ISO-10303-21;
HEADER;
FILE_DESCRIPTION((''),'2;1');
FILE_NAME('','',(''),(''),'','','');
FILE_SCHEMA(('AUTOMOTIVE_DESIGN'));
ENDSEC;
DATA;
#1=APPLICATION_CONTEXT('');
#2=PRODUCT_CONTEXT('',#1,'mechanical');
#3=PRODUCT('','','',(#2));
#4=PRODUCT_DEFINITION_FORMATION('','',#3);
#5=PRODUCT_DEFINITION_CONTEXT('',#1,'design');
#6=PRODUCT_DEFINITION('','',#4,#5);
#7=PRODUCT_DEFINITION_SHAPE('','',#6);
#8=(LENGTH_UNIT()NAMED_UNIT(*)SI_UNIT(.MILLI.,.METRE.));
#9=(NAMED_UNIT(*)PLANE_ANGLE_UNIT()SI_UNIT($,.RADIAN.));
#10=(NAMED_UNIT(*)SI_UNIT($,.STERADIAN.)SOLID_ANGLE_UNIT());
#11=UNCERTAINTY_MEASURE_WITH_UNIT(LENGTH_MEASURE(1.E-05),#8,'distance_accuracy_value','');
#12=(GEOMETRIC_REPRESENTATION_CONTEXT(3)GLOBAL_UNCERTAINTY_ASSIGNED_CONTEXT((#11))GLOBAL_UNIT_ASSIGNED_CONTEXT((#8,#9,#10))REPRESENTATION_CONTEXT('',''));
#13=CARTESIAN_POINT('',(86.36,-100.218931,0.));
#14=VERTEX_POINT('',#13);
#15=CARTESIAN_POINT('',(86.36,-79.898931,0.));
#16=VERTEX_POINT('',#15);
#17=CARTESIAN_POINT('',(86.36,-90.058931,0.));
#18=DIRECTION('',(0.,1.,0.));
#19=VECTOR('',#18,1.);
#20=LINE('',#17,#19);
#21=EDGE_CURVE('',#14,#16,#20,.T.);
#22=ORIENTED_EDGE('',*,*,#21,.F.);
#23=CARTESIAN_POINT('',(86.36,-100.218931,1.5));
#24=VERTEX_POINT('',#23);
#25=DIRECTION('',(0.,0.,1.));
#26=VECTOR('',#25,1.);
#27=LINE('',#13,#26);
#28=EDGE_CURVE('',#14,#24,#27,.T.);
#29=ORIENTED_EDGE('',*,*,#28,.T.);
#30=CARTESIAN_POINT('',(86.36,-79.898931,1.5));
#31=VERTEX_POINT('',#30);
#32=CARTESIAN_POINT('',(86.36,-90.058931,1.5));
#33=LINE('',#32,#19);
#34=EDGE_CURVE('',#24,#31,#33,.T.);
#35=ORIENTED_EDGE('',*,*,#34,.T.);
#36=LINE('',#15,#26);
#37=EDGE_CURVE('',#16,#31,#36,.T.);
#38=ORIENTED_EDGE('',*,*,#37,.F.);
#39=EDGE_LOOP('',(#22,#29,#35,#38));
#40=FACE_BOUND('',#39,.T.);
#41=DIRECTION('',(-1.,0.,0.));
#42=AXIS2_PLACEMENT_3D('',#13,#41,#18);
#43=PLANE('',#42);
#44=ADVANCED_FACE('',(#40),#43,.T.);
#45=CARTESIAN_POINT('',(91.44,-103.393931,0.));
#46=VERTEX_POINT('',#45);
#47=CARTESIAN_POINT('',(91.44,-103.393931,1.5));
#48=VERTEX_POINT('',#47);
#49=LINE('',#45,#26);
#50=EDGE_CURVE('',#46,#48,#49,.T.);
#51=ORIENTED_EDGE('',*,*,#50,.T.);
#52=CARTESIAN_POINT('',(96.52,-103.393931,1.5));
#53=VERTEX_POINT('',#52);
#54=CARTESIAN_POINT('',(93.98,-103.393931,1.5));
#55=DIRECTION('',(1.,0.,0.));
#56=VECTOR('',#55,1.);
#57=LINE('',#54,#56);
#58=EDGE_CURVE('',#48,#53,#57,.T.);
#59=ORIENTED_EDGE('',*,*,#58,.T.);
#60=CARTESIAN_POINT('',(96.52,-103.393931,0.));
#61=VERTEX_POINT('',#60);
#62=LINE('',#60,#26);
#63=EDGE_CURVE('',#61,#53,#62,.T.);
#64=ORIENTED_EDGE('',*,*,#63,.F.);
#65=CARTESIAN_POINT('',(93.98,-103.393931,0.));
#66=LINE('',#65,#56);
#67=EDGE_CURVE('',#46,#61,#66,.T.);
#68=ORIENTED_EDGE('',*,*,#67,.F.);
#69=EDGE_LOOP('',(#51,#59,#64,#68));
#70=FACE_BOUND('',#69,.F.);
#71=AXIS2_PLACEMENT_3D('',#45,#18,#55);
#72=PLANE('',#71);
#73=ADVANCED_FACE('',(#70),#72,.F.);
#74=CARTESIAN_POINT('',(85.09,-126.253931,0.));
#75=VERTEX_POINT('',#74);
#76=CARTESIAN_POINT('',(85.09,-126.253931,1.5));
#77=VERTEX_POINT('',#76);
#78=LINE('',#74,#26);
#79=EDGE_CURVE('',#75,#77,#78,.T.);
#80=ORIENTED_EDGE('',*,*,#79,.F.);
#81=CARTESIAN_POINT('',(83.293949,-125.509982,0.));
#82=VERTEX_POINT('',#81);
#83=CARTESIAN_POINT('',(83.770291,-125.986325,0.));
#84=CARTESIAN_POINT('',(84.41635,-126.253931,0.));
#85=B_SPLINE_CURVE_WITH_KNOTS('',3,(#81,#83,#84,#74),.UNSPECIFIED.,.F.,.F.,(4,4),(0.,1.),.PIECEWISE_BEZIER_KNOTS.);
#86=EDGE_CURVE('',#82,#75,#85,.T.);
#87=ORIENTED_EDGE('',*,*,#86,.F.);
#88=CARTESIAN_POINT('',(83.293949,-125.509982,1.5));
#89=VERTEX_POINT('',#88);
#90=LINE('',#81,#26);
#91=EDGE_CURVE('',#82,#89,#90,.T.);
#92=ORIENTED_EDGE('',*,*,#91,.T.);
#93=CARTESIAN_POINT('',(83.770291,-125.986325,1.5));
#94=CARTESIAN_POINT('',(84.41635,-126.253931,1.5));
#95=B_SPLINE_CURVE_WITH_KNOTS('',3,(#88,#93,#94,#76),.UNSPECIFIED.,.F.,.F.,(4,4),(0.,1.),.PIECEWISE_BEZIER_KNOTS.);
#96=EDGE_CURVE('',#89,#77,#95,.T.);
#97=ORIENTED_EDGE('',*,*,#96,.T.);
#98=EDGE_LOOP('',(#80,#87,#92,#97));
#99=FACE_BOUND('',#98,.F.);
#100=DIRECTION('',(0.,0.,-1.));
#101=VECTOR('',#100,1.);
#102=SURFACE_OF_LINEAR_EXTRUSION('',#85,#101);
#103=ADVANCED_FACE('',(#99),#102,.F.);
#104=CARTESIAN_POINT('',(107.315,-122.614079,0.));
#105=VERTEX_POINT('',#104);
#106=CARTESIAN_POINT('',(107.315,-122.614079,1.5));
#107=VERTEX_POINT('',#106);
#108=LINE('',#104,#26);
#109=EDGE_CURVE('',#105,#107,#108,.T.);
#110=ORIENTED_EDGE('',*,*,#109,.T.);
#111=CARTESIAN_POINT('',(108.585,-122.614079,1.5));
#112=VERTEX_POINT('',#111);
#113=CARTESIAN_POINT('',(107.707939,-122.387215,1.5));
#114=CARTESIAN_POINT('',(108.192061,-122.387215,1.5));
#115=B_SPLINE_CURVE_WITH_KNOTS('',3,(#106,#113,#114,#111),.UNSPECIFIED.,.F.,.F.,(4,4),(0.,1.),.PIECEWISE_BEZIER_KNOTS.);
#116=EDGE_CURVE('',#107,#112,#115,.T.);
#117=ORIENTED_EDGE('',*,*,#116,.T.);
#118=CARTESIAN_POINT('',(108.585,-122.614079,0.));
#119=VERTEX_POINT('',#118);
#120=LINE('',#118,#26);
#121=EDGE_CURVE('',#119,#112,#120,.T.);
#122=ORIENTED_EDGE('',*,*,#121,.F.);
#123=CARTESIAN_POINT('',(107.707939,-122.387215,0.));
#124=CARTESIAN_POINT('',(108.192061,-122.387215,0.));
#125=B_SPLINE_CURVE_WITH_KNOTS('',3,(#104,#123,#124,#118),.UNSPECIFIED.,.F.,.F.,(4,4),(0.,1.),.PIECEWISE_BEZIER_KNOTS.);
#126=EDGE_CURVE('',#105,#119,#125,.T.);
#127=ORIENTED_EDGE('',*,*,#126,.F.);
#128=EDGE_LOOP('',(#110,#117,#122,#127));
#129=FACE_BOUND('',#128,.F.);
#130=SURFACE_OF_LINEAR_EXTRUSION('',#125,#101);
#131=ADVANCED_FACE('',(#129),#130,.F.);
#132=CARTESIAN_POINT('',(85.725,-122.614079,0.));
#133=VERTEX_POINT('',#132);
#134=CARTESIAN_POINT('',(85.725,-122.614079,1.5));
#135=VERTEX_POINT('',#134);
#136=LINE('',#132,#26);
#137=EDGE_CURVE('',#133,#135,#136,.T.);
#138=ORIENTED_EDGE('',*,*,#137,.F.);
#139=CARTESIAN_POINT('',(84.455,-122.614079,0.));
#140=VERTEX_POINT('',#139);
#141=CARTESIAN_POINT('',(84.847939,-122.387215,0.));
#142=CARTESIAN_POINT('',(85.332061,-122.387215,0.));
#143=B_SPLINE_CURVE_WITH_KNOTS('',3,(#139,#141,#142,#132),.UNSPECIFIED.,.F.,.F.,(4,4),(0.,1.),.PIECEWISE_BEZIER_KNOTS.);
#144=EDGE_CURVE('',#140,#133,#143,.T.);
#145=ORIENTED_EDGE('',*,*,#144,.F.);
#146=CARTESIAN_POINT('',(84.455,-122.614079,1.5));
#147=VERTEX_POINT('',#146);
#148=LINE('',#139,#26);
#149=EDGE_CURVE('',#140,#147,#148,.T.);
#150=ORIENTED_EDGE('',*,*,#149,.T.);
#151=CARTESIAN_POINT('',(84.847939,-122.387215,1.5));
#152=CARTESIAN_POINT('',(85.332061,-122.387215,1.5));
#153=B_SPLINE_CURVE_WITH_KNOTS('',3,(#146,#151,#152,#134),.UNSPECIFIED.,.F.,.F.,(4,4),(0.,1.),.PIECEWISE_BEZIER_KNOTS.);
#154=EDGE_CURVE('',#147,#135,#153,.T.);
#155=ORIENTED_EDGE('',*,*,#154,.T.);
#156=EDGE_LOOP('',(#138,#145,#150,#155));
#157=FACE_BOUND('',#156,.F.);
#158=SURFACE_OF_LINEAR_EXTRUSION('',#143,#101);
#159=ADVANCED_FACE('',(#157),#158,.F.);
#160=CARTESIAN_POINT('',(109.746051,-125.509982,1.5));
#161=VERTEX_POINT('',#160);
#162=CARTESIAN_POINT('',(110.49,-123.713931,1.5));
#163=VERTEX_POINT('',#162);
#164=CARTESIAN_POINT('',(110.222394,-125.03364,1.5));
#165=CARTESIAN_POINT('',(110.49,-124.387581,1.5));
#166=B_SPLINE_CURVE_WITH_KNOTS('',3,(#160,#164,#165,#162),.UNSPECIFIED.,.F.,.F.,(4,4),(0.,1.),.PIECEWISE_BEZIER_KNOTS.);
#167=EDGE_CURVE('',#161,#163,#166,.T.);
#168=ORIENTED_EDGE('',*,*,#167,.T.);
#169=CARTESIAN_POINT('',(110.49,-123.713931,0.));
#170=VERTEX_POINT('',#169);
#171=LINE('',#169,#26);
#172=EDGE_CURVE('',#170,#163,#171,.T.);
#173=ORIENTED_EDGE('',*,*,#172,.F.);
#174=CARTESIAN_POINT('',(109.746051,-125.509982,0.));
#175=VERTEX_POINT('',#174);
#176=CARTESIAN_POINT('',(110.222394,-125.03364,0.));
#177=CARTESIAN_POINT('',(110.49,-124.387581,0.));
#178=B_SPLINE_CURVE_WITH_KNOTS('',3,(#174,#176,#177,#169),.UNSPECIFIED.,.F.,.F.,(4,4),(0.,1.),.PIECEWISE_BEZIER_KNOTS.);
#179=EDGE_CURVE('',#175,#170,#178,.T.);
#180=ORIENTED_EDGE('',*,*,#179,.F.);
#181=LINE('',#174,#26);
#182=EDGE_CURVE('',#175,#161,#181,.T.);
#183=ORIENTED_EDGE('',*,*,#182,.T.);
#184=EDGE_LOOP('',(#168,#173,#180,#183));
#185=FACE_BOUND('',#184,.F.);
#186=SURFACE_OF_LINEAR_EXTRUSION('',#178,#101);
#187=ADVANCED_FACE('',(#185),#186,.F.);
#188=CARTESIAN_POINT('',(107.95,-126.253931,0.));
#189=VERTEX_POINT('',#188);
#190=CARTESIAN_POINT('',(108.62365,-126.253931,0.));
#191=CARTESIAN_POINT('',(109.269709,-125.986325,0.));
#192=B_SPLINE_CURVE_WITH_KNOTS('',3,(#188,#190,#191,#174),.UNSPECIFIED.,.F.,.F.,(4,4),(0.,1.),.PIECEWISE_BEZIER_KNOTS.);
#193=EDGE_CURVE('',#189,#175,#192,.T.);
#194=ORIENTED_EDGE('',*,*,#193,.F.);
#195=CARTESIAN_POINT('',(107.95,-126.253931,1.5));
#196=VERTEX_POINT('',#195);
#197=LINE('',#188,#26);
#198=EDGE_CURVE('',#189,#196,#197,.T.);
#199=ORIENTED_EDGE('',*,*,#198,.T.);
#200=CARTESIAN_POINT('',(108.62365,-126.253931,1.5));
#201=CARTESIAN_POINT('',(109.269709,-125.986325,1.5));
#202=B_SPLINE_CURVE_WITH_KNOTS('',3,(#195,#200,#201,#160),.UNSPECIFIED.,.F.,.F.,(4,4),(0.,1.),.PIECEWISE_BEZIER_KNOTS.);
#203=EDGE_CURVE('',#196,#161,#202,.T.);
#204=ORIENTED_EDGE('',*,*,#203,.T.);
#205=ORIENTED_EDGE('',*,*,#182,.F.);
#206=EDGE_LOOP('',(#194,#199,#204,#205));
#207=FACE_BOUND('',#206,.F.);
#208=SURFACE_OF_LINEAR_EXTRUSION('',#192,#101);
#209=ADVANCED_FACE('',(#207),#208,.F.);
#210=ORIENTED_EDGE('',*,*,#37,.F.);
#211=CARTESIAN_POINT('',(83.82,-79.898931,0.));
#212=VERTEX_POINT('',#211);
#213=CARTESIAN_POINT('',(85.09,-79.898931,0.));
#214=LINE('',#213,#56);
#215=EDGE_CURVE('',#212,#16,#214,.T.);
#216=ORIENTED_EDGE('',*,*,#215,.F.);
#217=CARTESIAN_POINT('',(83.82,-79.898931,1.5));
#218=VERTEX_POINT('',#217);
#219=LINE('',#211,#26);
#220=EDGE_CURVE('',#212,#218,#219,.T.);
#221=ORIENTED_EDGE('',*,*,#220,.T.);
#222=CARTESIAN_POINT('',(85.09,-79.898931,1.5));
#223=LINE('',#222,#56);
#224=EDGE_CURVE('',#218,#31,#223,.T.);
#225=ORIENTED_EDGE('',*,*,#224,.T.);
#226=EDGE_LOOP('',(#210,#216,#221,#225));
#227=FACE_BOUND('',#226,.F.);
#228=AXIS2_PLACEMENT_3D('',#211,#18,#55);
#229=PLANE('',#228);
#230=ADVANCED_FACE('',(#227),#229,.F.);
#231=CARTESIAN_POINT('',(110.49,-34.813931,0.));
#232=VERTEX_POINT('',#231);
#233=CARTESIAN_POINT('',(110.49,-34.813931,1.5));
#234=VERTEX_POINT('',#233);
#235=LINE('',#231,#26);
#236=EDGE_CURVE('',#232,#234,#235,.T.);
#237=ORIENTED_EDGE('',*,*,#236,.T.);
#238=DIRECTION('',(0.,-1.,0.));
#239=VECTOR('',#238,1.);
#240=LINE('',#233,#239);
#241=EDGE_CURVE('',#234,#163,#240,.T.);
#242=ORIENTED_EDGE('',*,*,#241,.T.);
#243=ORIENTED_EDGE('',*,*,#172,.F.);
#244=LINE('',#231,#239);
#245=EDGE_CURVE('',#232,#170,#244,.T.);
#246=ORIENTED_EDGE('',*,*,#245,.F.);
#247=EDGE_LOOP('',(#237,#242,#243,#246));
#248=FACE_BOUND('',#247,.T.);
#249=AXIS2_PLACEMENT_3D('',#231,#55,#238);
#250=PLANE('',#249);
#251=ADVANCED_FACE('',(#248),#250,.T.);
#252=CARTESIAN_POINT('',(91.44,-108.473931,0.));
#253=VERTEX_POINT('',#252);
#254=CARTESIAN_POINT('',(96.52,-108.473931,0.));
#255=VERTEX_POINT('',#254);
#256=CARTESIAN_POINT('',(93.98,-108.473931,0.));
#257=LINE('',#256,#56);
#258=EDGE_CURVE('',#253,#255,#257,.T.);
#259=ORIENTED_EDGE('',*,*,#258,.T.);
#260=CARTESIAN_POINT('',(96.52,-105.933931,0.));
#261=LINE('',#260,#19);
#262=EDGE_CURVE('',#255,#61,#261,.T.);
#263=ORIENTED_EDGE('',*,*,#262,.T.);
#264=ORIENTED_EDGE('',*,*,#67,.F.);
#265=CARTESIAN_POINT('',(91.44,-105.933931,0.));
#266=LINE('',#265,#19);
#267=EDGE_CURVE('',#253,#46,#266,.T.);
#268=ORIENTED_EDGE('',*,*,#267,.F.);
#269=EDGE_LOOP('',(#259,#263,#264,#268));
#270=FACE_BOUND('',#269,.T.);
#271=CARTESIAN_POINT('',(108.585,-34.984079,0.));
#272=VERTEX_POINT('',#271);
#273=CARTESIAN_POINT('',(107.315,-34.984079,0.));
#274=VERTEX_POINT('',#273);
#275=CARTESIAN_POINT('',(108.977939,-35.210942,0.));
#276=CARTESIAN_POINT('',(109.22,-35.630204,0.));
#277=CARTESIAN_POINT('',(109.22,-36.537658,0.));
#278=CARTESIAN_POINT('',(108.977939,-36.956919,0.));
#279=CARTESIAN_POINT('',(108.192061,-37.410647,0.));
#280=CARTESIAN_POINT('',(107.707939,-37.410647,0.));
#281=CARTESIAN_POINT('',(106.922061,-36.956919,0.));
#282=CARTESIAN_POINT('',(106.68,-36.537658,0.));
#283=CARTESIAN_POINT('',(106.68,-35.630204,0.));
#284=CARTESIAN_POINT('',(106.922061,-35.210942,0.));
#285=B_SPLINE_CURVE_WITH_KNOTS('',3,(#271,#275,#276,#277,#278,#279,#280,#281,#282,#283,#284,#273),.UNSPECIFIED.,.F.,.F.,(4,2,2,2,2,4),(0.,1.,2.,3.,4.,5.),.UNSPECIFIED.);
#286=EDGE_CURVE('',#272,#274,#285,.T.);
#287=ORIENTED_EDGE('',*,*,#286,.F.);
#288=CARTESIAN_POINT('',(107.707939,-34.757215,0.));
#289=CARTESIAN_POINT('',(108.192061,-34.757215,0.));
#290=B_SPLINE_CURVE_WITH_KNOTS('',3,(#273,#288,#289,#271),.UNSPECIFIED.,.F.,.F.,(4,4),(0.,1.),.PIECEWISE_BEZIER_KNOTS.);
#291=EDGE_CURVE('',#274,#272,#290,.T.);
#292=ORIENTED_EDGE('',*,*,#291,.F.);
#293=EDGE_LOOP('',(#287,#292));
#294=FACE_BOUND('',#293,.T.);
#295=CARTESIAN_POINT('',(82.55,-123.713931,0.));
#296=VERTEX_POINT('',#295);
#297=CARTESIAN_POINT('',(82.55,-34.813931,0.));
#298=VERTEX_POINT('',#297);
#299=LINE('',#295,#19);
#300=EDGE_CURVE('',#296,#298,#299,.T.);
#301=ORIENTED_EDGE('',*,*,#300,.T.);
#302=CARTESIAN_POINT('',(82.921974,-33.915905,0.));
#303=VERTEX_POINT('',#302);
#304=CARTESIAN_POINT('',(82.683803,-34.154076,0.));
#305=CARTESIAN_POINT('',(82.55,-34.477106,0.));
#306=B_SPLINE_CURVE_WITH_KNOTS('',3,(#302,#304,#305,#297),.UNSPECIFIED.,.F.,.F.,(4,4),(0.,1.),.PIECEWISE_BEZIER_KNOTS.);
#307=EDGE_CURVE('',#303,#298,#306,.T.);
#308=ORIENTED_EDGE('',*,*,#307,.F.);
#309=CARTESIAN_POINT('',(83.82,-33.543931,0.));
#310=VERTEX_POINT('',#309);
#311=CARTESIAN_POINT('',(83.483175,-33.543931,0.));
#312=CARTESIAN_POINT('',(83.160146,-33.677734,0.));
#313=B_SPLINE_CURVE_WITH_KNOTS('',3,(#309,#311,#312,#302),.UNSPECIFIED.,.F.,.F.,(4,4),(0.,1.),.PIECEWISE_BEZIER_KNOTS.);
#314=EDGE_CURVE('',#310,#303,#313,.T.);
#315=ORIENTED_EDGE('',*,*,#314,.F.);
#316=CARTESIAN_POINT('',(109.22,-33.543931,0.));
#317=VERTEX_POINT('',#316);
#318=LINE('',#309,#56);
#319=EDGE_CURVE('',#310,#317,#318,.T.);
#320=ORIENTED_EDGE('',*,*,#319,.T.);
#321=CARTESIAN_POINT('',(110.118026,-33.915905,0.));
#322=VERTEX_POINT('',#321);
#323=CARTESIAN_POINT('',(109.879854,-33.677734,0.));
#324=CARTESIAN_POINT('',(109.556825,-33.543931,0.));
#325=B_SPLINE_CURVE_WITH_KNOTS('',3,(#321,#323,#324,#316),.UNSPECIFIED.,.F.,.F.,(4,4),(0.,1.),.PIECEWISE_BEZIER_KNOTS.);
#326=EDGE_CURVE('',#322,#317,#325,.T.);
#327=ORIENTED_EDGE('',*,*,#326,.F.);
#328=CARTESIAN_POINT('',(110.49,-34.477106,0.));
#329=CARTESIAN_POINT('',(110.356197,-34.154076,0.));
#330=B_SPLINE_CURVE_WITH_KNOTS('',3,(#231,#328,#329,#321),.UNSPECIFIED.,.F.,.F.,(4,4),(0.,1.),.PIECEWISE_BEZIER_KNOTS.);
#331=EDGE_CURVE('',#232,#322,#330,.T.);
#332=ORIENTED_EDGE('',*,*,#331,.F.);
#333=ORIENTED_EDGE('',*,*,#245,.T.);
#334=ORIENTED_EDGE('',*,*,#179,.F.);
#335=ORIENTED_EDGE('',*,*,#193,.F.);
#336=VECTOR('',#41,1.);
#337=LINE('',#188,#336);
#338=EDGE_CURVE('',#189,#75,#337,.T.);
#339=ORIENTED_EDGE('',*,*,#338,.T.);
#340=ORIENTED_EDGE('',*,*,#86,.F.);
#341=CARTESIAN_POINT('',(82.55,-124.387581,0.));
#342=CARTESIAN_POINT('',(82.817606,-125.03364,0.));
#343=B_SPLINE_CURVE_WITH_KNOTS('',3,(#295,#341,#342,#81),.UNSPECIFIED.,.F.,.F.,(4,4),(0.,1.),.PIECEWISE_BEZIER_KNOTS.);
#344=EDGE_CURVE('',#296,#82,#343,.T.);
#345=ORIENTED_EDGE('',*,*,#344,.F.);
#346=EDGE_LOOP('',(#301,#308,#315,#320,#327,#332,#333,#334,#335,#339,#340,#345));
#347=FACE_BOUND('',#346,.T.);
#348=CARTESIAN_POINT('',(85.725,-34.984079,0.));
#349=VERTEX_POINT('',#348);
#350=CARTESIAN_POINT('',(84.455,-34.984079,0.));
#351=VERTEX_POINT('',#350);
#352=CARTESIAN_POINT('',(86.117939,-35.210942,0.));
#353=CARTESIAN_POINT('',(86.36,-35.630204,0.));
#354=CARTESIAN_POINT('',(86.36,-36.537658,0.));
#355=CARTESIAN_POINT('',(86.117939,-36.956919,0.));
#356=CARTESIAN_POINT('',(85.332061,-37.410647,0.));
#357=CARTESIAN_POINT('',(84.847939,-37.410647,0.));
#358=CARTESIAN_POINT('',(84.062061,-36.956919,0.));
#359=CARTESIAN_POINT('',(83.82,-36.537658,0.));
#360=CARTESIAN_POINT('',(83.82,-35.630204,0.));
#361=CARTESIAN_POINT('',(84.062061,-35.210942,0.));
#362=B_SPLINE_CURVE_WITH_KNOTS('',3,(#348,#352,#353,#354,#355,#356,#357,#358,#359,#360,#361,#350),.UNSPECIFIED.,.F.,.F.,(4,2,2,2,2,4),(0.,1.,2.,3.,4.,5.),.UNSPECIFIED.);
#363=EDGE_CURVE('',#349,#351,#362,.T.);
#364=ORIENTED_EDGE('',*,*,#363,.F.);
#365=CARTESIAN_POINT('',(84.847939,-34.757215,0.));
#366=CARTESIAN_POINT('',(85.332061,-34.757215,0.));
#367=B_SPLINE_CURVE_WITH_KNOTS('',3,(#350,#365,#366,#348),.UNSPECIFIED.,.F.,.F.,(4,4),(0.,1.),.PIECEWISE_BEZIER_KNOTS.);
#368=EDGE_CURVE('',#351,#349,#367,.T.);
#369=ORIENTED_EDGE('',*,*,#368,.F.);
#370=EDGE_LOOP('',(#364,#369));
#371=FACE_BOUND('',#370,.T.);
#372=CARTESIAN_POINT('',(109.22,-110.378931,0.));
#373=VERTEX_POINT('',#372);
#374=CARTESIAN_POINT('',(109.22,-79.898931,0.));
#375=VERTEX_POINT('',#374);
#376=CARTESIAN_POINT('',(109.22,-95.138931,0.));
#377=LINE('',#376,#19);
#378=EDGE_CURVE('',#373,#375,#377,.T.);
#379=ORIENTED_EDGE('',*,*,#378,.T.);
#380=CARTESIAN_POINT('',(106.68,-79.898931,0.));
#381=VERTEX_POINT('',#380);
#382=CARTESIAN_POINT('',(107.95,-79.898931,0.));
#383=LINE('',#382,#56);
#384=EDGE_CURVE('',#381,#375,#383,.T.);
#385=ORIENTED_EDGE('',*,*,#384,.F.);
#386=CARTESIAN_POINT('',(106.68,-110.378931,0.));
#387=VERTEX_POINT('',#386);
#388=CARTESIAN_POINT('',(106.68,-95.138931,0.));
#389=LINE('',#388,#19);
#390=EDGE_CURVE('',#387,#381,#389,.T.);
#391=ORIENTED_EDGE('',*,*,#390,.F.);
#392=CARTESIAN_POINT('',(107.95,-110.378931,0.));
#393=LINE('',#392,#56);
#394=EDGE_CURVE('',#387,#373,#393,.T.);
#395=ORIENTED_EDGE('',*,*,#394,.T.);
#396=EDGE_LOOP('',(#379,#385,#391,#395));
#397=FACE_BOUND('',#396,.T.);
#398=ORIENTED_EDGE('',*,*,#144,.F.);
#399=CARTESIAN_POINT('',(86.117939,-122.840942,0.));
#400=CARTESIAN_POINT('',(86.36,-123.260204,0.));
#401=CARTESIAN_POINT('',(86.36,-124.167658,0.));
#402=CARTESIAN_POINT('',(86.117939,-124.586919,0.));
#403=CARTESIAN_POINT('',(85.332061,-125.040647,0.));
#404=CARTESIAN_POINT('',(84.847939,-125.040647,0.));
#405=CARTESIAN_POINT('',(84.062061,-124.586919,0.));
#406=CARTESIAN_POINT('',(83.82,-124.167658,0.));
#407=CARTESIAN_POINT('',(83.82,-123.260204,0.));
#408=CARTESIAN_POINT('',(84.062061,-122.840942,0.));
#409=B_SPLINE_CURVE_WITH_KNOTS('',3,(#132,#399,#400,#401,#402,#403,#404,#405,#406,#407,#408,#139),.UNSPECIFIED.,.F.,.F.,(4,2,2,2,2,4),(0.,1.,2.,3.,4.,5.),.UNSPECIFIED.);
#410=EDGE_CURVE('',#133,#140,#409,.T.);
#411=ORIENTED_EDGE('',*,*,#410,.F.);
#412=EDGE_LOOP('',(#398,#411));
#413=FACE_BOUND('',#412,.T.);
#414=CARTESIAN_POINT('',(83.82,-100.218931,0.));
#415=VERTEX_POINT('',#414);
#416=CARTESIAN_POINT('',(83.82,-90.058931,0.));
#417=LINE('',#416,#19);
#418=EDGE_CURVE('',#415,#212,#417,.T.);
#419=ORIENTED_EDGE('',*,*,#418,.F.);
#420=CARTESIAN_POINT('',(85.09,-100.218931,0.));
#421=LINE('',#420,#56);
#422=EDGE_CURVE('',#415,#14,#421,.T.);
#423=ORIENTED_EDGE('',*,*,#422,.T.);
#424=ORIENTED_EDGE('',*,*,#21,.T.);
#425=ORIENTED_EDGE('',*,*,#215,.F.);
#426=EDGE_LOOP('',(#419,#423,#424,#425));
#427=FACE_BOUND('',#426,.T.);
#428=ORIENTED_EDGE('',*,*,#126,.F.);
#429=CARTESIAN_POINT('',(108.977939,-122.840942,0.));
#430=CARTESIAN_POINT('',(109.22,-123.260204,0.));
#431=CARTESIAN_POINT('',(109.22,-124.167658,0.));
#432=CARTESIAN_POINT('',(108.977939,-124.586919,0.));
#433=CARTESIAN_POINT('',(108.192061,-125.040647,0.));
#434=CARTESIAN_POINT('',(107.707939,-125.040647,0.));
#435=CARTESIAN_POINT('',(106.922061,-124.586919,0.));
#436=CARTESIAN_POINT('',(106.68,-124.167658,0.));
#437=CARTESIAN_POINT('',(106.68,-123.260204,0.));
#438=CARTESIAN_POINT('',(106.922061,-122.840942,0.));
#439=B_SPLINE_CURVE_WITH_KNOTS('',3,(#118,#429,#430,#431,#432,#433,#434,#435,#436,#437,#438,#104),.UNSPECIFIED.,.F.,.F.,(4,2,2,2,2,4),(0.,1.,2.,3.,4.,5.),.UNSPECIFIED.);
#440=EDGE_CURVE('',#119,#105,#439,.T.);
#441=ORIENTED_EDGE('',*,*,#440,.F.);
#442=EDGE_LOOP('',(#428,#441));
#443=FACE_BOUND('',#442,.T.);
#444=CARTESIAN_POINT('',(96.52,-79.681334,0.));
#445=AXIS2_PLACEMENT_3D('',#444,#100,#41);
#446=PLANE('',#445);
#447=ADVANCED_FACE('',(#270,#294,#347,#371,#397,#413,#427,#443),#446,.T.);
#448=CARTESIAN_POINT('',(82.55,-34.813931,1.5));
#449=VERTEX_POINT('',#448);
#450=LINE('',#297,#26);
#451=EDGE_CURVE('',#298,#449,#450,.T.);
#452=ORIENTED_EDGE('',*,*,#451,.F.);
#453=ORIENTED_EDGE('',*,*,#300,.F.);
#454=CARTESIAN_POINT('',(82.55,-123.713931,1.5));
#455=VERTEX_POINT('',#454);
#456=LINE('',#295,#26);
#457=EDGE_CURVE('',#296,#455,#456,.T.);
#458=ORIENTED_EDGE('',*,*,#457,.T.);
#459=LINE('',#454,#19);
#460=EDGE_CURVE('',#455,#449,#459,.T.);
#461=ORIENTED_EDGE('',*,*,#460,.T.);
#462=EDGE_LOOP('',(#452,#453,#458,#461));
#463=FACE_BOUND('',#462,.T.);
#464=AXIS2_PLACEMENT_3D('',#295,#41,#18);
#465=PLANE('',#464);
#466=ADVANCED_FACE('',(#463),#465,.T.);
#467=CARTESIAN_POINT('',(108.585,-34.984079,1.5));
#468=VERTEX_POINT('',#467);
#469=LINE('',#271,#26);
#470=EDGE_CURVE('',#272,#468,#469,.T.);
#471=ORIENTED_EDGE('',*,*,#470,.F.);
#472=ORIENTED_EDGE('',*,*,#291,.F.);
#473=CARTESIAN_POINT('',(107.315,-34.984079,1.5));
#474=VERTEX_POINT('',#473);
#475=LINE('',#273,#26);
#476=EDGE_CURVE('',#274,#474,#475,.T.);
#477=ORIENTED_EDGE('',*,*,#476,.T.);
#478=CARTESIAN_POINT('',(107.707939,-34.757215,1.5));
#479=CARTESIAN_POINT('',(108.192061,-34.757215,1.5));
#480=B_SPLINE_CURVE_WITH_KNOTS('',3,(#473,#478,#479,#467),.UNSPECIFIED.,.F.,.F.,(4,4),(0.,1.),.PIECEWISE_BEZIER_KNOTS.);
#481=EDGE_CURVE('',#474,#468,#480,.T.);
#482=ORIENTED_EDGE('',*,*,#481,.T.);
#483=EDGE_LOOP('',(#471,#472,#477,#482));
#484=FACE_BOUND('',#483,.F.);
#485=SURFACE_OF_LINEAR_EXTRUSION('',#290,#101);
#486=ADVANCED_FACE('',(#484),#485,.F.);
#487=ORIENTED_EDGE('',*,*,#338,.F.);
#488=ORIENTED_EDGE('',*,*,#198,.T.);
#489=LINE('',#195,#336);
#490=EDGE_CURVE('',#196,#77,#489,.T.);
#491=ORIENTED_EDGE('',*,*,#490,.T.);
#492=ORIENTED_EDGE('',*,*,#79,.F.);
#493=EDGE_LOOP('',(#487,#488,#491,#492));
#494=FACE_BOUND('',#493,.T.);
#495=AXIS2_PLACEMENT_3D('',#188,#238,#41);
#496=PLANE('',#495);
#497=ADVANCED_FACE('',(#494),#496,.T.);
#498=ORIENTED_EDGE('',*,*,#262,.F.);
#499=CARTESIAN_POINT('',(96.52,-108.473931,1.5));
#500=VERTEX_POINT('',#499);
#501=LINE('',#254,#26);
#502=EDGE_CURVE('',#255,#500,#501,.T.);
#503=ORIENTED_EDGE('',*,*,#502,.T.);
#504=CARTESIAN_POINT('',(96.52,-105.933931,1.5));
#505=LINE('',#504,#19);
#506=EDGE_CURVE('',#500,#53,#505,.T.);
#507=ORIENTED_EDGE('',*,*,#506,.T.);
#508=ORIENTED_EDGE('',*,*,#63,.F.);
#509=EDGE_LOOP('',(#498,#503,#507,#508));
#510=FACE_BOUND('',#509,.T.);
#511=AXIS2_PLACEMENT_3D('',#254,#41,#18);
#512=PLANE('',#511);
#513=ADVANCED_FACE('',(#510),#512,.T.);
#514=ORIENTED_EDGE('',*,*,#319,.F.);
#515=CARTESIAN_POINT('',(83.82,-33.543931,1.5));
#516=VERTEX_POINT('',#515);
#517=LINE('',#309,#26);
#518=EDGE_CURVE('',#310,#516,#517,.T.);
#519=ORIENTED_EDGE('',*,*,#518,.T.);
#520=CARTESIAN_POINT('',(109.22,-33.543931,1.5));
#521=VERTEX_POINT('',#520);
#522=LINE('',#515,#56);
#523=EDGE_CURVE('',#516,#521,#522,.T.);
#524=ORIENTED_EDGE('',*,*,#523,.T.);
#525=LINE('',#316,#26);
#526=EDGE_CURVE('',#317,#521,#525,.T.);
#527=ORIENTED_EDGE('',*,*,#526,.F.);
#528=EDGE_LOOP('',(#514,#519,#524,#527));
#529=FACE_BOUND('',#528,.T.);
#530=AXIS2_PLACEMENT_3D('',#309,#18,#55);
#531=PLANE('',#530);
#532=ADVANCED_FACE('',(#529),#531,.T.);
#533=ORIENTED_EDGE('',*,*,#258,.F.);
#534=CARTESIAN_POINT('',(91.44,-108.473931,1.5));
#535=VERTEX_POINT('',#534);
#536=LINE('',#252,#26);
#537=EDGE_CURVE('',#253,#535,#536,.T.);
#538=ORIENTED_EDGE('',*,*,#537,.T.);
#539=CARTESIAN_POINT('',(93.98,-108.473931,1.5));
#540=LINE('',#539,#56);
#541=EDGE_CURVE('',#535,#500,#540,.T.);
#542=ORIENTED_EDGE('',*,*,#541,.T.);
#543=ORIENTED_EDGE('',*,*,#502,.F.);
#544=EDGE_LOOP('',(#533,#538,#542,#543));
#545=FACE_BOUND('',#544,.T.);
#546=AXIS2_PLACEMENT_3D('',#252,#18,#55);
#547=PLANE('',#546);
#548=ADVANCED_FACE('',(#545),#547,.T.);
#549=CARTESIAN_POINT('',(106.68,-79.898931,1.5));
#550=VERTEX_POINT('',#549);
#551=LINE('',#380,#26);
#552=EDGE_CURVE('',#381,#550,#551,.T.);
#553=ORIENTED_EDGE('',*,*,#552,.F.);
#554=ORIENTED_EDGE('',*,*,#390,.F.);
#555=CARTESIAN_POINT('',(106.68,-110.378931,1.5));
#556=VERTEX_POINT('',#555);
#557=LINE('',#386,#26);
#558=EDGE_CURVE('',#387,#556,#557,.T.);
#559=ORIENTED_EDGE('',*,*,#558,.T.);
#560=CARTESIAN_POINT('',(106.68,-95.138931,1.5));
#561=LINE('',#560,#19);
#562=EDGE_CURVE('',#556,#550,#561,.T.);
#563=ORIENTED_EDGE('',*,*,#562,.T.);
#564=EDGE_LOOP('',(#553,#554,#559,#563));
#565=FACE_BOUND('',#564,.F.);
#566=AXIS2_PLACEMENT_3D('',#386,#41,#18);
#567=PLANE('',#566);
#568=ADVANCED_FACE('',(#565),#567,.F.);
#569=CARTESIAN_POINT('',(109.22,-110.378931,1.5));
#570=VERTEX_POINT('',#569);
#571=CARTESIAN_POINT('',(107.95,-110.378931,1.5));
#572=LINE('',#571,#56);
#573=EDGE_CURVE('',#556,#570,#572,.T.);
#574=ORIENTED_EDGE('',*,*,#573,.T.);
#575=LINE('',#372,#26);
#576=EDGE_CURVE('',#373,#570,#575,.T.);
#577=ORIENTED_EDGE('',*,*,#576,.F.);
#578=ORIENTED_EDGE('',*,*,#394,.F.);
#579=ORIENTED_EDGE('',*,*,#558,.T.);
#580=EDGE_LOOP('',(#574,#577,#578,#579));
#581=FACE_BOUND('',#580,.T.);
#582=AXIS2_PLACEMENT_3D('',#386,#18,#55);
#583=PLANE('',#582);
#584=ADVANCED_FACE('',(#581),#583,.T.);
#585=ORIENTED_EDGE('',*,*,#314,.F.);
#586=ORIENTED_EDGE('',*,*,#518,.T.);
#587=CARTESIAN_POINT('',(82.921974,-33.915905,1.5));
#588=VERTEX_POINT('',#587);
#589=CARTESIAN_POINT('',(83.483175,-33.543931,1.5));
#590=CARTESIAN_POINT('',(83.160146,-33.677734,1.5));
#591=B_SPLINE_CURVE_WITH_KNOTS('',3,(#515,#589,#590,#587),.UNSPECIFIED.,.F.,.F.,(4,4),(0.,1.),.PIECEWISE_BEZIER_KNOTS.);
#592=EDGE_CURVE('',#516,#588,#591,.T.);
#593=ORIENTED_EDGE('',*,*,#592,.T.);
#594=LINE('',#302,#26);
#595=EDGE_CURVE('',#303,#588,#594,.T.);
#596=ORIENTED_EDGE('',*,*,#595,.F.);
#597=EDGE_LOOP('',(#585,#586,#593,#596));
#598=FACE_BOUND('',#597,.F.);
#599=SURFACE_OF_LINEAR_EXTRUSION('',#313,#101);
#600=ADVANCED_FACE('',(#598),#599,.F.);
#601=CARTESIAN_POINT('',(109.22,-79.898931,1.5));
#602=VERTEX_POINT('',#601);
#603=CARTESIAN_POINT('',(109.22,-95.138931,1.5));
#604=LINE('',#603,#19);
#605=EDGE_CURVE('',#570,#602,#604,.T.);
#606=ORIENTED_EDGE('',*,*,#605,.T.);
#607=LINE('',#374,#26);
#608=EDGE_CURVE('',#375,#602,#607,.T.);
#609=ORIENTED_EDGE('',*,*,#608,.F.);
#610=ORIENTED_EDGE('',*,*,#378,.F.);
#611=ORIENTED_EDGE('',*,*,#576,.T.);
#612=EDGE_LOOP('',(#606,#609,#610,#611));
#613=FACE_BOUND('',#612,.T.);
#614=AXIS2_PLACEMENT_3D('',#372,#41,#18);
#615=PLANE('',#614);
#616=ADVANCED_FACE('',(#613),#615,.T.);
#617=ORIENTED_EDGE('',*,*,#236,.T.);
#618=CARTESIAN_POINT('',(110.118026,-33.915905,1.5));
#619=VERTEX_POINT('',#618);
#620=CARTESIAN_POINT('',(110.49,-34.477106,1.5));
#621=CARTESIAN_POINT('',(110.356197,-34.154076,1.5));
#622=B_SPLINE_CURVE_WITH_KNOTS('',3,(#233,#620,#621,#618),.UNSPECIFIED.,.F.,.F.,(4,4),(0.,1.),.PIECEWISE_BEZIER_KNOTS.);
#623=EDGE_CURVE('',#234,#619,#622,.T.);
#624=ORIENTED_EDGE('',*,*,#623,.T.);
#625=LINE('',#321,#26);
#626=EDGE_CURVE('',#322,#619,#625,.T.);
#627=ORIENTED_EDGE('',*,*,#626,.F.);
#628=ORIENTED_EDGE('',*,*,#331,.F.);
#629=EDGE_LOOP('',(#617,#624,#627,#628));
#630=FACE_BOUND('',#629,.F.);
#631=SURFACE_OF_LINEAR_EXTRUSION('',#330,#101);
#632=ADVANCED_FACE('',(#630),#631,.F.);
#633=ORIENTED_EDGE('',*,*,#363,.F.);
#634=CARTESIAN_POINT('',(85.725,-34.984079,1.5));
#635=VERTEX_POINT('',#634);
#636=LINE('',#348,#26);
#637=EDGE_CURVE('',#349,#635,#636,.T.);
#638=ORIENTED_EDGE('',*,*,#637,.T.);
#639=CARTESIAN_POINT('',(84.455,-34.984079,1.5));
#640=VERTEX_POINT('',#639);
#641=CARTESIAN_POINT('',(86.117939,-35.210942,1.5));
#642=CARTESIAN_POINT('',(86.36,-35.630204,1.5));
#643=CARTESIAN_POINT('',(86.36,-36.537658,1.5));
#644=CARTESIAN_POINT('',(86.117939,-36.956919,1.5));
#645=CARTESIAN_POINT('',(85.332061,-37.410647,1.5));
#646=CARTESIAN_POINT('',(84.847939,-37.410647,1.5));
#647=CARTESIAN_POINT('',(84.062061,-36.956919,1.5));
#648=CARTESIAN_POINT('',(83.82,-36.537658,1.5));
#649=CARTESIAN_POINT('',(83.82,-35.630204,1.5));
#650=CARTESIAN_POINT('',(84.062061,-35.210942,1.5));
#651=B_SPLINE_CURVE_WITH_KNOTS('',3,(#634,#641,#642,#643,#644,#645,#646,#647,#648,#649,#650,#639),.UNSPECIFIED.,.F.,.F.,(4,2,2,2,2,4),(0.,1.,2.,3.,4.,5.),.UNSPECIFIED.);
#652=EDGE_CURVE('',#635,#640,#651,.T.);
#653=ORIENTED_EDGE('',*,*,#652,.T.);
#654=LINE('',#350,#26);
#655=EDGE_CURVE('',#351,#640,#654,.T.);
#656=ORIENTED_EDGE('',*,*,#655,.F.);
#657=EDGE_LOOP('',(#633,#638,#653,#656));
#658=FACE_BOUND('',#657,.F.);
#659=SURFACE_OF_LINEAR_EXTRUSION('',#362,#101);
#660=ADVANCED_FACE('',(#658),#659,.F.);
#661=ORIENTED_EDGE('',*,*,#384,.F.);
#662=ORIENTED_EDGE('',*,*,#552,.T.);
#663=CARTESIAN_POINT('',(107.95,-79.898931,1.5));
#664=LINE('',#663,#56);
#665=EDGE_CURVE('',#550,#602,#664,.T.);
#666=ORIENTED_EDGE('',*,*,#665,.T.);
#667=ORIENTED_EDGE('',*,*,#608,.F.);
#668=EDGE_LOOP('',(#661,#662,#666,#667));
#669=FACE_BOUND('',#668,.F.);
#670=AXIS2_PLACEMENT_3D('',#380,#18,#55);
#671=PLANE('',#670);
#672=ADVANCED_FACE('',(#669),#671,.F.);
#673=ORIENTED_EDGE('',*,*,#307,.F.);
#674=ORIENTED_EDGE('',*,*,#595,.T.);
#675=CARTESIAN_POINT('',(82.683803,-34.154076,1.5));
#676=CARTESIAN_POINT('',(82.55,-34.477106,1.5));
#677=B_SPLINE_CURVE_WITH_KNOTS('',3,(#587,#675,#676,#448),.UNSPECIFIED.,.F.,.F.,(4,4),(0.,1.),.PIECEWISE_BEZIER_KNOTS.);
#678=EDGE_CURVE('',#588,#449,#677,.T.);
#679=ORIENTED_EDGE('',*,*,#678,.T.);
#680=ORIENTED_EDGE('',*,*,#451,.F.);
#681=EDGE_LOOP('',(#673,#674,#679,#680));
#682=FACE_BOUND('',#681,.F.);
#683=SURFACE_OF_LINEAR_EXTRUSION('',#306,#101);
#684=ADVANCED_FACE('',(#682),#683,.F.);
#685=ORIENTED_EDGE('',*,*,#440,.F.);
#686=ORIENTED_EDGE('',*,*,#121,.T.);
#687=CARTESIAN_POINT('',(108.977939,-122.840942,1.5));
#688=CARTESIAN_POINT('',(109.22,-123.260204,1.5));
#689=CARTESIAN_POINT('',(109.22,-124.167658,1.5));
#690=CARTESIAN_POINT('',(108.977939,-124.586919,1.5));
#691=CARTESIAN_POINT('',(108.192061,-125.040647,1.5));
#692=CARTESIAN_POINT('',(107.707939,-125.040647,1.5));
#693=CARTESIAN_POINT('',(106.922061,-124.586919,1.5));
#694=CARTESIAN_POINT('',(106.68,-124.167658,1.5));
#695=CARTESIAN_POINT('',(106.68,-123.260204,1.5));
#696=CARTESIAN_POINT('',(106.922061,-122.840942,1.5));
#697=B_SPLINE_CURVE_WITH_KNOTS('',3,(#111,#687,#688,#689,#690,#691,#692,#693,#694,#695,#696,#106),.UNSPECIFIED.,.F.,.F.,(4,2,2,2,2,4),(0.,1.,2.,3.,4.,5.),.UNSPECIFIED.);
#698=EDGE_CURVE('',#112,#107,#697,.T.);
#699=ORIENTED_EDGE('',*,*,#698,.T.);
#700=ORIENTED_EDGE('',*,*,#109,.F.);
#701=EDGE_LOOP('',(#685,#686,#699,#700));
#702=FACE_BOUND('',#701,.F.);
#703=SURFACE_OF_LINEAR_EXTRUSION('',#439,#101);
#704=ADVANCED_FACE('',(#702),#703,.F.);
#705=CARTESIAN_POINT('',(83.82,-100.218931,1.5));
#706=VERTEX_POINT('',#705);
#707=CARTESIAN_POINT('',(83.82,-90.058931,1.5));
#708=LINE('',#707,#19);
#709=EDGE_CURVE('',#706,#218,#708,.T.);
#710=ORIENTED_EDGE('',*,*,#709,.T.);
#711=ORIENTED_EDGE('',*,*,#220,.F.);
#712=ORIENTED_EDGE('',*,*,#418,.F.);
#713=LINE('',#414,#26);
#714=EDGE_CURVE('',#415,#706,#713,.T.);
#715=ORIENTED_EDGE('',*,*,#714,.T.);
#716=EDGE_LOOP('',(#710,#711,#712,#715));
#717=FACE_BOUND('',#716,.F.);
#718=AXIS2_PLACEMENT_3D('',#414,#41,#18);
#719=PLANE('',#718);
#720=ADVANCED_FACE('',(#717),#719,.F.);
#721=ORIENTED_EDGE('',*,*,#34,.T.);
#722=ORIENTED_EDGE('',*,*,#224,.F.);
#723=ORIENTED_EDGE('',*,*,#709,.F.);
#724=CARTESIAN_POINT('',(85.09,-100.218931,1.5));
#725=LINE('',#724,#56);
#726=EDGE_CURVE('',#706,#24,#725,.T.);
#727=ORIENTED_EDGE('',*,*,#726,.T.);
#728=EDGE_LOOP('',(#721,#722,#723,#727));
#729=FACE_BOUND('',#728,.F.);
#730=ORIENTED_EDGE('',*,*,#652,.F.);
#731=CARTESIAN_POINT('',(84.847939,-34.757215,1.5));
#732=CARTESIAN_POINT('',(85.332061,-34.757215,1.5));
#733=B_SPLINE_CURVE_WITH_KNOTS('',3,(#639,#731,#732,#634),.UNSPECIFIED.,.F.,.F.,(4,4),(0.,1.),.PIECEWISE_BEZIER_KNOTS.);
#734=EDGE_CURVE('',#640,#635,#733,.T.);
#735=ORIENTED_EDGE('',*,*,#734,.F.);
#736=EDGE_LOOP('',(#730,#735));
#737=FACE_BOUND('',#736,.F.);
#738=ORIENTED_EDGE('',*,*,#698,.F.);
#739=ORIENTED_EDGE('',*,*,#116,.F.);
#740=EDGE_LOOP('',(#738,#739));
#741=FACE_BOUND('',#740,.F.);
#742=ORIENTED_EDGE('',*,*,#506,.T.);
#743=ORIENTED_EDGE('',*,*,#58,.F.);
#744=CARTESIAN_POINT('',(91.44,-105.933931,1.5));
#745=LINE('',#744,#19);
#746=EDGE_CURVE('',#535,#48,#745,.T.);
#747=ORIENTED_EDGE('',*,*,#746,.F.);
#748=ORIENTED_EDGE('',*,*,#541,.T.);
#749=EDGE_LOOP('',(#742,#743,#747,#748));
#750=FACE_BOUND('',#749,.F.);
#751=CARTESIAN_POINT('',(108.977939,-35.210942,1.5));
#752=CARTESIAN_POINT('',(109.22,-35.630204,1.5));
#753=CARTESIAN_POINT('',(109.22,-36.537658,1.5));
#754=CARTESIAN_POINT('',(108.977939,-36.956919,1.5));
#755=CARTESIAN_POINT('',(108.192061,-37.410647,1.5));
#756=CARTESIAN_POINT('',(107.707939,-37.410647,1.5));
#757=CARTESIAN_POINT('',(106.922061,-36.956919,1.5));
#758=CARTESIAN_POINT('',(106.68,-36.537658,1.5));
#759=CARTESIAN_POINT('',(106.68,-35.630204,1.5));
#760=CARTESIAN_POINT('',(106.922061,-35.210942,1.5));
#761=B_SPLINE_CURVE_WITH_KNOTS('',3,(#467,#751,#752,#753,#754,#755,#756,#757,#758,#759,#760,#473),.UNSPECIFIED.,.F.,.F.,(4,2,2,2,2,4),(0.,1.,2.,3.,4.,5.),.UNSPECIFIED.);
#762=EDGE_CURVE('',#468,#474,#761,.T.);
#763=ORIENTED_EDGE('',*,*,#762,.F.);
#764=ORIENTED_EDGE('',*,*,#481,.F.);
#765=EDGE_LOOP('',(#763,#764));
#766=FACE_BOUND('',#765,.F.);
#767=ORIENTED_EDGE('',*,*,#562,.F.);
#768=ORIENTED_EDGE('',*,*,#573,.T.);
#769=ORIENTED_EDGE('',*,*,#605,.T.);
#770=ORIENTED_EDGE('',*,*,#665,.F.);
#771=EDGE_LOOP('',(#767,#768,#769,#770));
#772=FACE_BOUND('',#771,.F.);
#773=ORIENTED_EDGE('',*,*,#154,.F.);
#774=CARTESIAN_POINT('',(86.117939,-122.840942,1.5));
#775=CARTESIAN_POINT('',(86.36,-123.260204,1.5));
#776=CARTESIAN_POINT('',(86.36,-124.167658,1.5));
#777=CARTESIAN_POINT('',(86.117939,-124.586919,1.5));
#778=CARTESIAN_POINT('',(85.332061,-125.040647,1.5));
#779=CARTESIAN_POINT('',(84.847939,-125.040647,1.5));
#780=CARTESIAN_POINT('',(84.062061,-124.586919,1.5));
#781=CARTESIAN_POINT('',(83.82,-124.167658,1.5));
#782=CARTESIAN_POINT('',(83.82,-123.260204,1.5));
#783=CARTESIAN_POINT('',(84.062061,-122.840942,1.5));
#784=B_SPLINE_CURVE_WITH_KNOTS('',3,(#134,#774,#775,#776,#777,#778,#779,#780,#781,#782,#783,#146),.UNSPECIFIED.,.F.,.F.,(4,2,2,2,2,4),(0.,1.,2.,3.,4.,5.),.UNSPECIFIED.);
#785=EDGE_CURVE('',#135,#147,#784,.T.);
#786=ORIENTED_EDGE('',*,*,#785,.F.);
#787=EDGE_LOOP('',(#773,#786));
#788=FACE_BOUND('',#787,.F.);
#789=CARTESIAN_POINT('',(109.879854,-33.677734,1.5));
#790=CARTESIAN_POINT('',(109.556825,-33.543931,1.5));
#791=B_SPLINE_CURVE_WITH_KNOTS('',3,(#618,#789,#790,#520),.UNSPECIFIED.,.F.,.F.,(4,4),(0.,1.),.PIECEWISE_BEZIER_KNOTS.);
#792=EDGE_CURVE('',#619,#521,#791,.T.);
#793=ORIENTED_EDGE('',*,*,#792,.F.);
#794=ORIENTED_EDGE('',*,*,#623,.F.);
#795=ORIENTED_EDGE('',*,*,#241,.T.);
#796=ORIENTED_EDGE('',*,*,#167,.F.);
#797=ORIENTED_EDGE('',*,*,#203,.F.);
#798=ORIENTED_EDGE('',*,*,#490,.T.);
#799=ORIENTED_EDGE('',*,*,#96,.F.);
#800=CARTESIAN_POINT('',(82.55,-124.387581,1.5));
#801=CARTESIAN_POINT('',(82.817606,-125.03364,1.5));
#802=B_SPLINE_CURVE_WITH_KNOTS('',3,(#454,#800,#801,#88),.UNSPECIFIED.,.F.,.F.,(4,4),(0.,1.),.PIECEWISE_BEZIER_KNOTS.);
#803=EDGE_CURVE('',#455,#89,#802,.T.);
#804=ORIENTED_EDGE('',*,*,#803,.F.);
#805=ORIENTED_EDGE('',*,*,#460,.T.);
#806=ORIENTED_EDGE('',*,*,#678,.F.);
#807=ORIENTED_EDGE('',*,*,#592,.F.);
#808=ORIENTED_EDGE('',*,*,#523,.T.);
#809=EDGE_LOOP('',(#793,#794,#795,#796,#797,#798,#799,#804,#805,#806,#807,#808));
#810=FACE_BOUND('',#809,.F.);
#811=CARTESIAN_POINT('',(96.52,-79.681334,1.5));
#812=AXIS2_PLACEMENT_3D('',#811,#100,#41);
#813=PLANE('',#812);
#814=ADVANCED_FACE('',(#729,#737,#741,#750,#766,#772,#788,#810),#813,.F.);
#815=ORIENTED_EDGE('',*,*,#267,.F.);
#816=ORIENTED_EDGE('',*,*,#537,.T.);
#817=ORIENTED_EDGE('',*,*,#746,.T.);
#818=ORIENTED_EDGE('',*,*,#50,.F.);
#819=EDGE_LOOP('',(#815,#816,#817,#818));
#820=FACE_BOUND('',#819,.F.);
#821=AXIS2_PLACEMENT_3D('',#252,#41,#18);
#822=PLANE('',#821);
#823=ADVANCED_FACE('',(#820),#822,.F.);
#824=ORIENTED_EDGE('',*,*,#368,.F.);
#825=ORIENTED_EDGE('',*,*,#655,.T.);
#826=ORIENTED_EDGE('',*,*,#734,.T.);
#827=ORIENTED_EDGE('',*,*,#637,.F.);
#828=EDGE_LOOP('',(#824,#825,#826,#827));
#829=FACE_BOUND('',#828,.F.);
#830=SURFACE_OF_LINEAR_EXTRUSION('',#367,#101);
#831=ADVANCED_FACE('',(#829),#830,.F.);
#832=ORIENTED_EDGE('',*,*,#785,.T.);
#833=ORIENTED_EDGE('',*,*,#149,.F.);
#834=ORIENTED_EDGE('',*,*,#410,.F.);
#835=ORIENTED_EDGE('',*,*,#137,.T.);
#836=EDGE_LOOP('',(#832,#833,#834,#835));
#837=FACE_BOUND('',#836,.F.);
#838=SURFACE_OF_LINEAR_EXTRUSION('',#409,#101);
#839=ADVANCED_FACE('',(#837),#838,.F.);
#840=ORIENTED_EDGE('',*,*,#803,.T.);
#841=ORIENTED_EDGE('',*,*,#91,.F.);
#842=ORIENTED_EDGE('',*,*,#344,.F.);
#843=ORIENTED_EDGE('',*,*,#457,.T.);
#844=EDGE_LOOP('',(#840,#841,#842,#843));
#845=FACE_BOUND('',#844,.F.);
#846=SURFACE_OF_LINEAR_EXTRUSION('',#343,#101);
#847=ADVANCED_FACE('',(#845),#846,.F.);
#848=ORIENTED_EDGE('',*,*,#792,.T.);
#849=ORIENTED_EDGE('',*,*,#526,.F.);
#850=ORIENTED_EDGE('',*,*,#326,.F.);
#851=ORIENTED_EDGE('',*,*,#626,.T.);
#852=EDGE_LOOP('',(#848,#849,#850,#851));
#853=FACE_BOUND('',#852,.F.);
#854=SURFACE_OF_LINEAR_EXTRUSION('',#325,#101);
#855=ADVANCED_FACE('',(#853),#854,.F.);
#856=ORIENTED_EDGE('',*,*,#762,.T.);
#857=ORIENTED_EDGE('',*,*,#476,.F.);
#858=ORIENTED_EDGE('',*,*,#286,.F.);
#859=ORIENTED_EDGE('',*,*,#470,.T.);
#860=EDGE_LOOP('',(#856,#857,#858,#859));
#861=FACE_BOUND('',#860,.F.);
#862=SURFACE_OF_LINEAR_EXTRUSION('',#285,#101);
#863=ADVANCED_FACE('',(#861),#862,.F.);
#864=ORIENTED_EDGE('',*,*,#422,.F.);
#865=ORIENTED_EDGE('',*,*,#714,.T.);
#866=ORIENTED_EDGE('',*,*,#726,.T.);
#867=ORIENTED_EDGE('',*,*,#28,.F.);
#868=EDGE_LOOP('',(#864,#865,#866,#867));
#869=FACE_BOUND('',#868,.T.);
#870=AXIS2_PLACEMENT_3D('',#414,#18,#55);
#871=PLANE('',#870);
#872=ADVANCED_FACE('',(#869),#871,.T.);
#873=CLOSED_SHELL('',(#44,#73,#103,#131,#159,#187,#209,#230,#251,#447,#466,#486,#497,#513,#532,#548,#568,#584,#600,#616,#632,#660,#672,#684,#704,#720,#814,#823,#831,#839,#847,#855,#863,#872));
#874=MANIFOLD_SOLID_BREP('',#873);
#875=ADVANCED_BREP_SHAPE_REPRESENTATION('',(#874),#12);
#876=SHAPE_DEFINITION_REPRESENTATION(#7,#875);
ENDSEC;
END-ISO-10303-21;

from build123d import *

# Parameters (mm, degrees)
MODEL_W            = 2.54
MODEL_H            = 30.48
MODEL_H_2          = 20.32
MODEL_W_2          = 5.08
MODEL_H_3          = 5.08
BOSS_EXTRU_1_DEPTH = 1.5


with BuildPart() as part:
    # Model → Boss.-Extru.1 (new body)
    with BuildSketch(Plane.XY):
        with BuildLine():
            Line((110.49, -34.813931), (110.49, -38.623931))
            Line((110.49, -38.623931), (110.49, -39.893931))
            Line((110.49, -39.893931), (110.49, -123.713931))
            add(Edge.make_bspline(
                [(109.746051, -125.509982), (110.222394, -125.03364), (110.49, -124.387581), (110.49, -123.713931)],
                knots=[0, 0, 0, 0, 1, 1, 1, 1], degree=3))
            add(Edge.make_bspline(
                [(107.95, -126.253931), (108.62365, -126.253931), (109.269709, -125.986325), (109.746051, -125.509982)],
                knots=[0, 0, 0, 0, 1, 1, 1, 1], degree=3))
            Line((107.95, -126.253931), (85.09, -126.253931))
            add(Edge.make_bspline(
                [(83.293949, -125.509982), (83.770291, -125.986325), (84.41635, -126.253931), (85.09, -126.253931)],
                knots=[0, 0, 0, 0, 1, 1, 1, 1], degree=3))
            add(Edge.make_bspline(
                [(82.55, -123.713931), (82.55, -124.387581), (82.817606, -125.03364), (83.293949, -125.509982)],
                knots=[0, 0, 0, 0, 1, 1, 1, 1], degree=3))
            Line((82.55, -123.713931), (82.55, -39.893931))
            Line((82.55, -39.893931), (82.55, -38.623931))
            Line((82.55, -38.623931), (82.55, -34.813931))
            add(Edge.make_bspline(
                [(82.921974, -33.915905), (82.683803, -34.154076), (82.55, -34.477106), (82.55, -34.813931)],
                knots=[0, 0, 0, 0, 1, 1, 1, 1], degree=3))
            add(Edge.make_bspline(
                [(83.82, -33.543931), (83.483175, -33.543931), (83.160146, -33.677734), (82.921974, -33.915905)],
                knots=[0, 0, 0, 0, 1, 1, 1, 1], degree=3))
            Line((83.82, -33.543931), (109.22, -33.543931))
            add(Edge.make_bspline(
                [(110.118026, -33.915905), (109.879854, -33.677734), (109.556825, -33.543931), (109.22, -33.543931)],
                knots=[0, 0, 0, 0, 1, 1, 1, 1], degree=3))
            add(Edge.make_bspline(
                [(110.49, -34.813931), (110.49, -34.477106), (110.356197, -34.154076), (110.118026, -33.915905)],
                knots=[0, 0, 0, 0, 1, 1, 1, 1], degree=3))
        make_face()
        with Locations((107.95, -95.138931)):
            Rectangle(MODEL_W, MODEL_H, mode=Mode.SUBTRACT)
        with Locations((85.09, -90.058931)):
            Rectangle(MODEL_W, MODEL_H_2, mode=Mode.SUBTRACT)
        with Locations((93.98, -105.933931)):
            Rectangle(MODEL_W_2, MODEL_H_3, mode=Mode.SUBTRACT)
        with BuildLine():
            add(Edge.make_bspline(
                [(109.22, -36.083931), (109.22, -36.537658), (108.977939, -36.956919), (108.585, -37.183783)],
                knots=[0, 0, 0, 0, 1, 1, 1, 1], degree=3))
            add(Edge.make_bspline(
                [(108.585, -37.183783), (108.192061, -37.410647), (107.707939, -37.410647), (107.315, -37.183783)],
                knots=[0, 0, 0, 0, 1, 1, 1, 1], degree=3))
            add(Edge.make_bspline(
                [(107.315, -37.183783), (106.922061, -36.956919), (106.68, -36.537658), (106.68, -36.083931)],
                knots=[0, 0, 0, 0, 1, 1, 1, 1], degree=3))
            add(Edge.make_bspline(
                [(106.68, -36.083931), (106.68, -35.630204), (106.922061, -35.210942), (107.315, -34.984079)],
                knots=[0, 0, 0, 0, 1, 1, 1, 1], degree=3))
            add(Edge.make_bspline(
                [(107.315, -34.984079), (107.707939, -34.757215), (108.192061, -34.757215), (108.585, -34.984079)],
                knots=[0, 0, 0, 0, 1, 1, 1, 1], degree=3))
            add(Edge.make_bspline(
                [(108.585, -34.984079), (108.977939, -35.210942), (109.22, -35.630204), (109.22, -36.083931)],
                knots=[0, 0, 0, 0, 1, 1, 1, 1], degree=3))
        make_face(mode=Mode.SUBTRACT)
        with BuildLine():
            add(Edge.make_bspline(
                [(86.36, -36.083931), (86.36, -36.537658), (86.117939, -36.956919), (85.725, -37.183783)],
                knots=[0, 0, 0, 0, 1, 1, 1, 1], degree=3))
            add(Edge.make_bspline(
                [(85.725, -37.183783), (85.332061, -37.410647), (84.847939, -37.410647), (84.455, -37.183783)],
                knots=[0, 0, 0, 0, 1, 1, 1, 1], degree=3))
            add(Edge.make_bspline(
                [(84.455, -37.183783), (84.062061, -36.956919), (83.82, -36.537658), (83.82, -36.083931)],
                knots=[0, 0, 0, 0, 1, 1, 1, 1], degree=3))
            add(Edge.make_bspline(
                [(83.82, -36.083931), (83.82, -35.630204), (84.062061, -35.210942), (84.455, -34.984079)],
                knots=[0, 0, 0, 0, 1, 1, 1, 1], degree=3))
            add(Edge.make_bspline(
                [(84.455, -34.984079), (84.847939, -34.757215), (85.332061, -34.757215), (85.725, -34.984079)],
                knots=[0, 0, 0, 0, 1, 1, 1, 1], degree=3))
            add(Edge.make_bspline(
                [(85.725, -34.984079), (86.117939, -35.210942), (86.36, -35.630204), (86.36, -36.083931)],
                knots=[0, 0, 0, 0, 1, 1, 1, 1], degree=3))
        make_face(mode=Mode.SUBTRACT)
        with BuildLine():
            add(Edge.make_bspline(
                [(86.36, -123.713931), (86.36, -124.167658), (86.117939, -124.586919), (85.725, -124.813783)],
                knots=[0, 0, 0, 0, 1, 1, 1, 1], degree=3))
            add(Edge.make_bspline(
                [(85.725, -124.813783), (85.332061, -125.040647), (84.847939, -125.040647), (84.455, -124.813783)],
                knots=[0, 0, 0, 0, 1, 1, 1, 1], degree=3))
            add(Edge.make_bspline(
                [(84.455, -124.813783), (84.062061, -124.586919), (83.82, -124.167658), (83.82, -123.713931)],
                knots=[0, 0, 0, 0, 1, 1, 1, 1], degree=3))
            add(Edge.make_bspline(
                [(83.82, -123.713931), (83.82, -123.260204), (84.062061, -122.840942), (84.455, -122.614079)],
                knots=[0, 0, 0, 0, 1, 1, 1, 1], degree=3))
            add(Edge.make_bspline(
                [(84.455, -122.614079), (84.847939, -122.387215), (85.332061, -122.387215), (85.725, -122.614079)],
                knots=[0, 0, 0, 0, 1, 1, 1, 1], degree=3))
            add(Edge.make_bspline(
                [(85.725, -122.614079), (86.117939, -122.840942), (86.36, -123.260204), (86.36, -123.713931)],
                knots=[0, 0, 0, 0, 1, 1, 1, 1], degree=3))
        make_face(mode=Mode.SUBTRACT)
        with BuildLine():
            add(Edge.make_bspline(
                [(109.22, -123.713931), (109.22, -124.167658), (108.977939, -124.586919), (108.585, -124.813783)],
                knots=[0, 0, 0, 0, 1, 1, 1, 1], degree=3))
            add(Edge.make_bspline(
                [(108.585, -124.813783), (108.192061, -125.040647), (107.707939, -125.040647), (107.315, -124.813783)],
                knots=[0, 0, 0, 0, 1, 1, 1, 1], degree=3))
            add(Edge.make_bspline(
                [(107.315, -124.813783), (106.922061, -124.586919), (106.68, -124.167658), (106.68, -123.713931)],
                knots=[0, 0, 0, 0, 1, 1, 1, 1], degree=3))
            add(Edge.make_bspline(
                [(106.68, -123.713931), (106.68, -123.260204), (106.922061, -122.840942), (107.315, -122.614079)],
                knots=[0, 0, 0, 0, 1, 1, 1, 1], degree=3))
            add(Edge.make_bspline(
                [(107.315, -122.614079), (107.707939, -122.387215), (108.192061, -122.387215), (108.585, -122.614079)],
                knots=[0, 0, 0, 0, 1, 1, 1, 1], degree=3))
            add(Edge.make_bspline(
                [(108.585, -122.614079), (108.977939, -122.840942), (109.22, -123.260204), (109.22, -123.713931)],
                knots=[0, 0, 0, 0, 1, 1, 1, 1], degree=3))
        make_face(mode=Mode.SUBTRACT)
    extrude(amount=BOSS_EXTRU_1_DEPTH)


solid = part.part
